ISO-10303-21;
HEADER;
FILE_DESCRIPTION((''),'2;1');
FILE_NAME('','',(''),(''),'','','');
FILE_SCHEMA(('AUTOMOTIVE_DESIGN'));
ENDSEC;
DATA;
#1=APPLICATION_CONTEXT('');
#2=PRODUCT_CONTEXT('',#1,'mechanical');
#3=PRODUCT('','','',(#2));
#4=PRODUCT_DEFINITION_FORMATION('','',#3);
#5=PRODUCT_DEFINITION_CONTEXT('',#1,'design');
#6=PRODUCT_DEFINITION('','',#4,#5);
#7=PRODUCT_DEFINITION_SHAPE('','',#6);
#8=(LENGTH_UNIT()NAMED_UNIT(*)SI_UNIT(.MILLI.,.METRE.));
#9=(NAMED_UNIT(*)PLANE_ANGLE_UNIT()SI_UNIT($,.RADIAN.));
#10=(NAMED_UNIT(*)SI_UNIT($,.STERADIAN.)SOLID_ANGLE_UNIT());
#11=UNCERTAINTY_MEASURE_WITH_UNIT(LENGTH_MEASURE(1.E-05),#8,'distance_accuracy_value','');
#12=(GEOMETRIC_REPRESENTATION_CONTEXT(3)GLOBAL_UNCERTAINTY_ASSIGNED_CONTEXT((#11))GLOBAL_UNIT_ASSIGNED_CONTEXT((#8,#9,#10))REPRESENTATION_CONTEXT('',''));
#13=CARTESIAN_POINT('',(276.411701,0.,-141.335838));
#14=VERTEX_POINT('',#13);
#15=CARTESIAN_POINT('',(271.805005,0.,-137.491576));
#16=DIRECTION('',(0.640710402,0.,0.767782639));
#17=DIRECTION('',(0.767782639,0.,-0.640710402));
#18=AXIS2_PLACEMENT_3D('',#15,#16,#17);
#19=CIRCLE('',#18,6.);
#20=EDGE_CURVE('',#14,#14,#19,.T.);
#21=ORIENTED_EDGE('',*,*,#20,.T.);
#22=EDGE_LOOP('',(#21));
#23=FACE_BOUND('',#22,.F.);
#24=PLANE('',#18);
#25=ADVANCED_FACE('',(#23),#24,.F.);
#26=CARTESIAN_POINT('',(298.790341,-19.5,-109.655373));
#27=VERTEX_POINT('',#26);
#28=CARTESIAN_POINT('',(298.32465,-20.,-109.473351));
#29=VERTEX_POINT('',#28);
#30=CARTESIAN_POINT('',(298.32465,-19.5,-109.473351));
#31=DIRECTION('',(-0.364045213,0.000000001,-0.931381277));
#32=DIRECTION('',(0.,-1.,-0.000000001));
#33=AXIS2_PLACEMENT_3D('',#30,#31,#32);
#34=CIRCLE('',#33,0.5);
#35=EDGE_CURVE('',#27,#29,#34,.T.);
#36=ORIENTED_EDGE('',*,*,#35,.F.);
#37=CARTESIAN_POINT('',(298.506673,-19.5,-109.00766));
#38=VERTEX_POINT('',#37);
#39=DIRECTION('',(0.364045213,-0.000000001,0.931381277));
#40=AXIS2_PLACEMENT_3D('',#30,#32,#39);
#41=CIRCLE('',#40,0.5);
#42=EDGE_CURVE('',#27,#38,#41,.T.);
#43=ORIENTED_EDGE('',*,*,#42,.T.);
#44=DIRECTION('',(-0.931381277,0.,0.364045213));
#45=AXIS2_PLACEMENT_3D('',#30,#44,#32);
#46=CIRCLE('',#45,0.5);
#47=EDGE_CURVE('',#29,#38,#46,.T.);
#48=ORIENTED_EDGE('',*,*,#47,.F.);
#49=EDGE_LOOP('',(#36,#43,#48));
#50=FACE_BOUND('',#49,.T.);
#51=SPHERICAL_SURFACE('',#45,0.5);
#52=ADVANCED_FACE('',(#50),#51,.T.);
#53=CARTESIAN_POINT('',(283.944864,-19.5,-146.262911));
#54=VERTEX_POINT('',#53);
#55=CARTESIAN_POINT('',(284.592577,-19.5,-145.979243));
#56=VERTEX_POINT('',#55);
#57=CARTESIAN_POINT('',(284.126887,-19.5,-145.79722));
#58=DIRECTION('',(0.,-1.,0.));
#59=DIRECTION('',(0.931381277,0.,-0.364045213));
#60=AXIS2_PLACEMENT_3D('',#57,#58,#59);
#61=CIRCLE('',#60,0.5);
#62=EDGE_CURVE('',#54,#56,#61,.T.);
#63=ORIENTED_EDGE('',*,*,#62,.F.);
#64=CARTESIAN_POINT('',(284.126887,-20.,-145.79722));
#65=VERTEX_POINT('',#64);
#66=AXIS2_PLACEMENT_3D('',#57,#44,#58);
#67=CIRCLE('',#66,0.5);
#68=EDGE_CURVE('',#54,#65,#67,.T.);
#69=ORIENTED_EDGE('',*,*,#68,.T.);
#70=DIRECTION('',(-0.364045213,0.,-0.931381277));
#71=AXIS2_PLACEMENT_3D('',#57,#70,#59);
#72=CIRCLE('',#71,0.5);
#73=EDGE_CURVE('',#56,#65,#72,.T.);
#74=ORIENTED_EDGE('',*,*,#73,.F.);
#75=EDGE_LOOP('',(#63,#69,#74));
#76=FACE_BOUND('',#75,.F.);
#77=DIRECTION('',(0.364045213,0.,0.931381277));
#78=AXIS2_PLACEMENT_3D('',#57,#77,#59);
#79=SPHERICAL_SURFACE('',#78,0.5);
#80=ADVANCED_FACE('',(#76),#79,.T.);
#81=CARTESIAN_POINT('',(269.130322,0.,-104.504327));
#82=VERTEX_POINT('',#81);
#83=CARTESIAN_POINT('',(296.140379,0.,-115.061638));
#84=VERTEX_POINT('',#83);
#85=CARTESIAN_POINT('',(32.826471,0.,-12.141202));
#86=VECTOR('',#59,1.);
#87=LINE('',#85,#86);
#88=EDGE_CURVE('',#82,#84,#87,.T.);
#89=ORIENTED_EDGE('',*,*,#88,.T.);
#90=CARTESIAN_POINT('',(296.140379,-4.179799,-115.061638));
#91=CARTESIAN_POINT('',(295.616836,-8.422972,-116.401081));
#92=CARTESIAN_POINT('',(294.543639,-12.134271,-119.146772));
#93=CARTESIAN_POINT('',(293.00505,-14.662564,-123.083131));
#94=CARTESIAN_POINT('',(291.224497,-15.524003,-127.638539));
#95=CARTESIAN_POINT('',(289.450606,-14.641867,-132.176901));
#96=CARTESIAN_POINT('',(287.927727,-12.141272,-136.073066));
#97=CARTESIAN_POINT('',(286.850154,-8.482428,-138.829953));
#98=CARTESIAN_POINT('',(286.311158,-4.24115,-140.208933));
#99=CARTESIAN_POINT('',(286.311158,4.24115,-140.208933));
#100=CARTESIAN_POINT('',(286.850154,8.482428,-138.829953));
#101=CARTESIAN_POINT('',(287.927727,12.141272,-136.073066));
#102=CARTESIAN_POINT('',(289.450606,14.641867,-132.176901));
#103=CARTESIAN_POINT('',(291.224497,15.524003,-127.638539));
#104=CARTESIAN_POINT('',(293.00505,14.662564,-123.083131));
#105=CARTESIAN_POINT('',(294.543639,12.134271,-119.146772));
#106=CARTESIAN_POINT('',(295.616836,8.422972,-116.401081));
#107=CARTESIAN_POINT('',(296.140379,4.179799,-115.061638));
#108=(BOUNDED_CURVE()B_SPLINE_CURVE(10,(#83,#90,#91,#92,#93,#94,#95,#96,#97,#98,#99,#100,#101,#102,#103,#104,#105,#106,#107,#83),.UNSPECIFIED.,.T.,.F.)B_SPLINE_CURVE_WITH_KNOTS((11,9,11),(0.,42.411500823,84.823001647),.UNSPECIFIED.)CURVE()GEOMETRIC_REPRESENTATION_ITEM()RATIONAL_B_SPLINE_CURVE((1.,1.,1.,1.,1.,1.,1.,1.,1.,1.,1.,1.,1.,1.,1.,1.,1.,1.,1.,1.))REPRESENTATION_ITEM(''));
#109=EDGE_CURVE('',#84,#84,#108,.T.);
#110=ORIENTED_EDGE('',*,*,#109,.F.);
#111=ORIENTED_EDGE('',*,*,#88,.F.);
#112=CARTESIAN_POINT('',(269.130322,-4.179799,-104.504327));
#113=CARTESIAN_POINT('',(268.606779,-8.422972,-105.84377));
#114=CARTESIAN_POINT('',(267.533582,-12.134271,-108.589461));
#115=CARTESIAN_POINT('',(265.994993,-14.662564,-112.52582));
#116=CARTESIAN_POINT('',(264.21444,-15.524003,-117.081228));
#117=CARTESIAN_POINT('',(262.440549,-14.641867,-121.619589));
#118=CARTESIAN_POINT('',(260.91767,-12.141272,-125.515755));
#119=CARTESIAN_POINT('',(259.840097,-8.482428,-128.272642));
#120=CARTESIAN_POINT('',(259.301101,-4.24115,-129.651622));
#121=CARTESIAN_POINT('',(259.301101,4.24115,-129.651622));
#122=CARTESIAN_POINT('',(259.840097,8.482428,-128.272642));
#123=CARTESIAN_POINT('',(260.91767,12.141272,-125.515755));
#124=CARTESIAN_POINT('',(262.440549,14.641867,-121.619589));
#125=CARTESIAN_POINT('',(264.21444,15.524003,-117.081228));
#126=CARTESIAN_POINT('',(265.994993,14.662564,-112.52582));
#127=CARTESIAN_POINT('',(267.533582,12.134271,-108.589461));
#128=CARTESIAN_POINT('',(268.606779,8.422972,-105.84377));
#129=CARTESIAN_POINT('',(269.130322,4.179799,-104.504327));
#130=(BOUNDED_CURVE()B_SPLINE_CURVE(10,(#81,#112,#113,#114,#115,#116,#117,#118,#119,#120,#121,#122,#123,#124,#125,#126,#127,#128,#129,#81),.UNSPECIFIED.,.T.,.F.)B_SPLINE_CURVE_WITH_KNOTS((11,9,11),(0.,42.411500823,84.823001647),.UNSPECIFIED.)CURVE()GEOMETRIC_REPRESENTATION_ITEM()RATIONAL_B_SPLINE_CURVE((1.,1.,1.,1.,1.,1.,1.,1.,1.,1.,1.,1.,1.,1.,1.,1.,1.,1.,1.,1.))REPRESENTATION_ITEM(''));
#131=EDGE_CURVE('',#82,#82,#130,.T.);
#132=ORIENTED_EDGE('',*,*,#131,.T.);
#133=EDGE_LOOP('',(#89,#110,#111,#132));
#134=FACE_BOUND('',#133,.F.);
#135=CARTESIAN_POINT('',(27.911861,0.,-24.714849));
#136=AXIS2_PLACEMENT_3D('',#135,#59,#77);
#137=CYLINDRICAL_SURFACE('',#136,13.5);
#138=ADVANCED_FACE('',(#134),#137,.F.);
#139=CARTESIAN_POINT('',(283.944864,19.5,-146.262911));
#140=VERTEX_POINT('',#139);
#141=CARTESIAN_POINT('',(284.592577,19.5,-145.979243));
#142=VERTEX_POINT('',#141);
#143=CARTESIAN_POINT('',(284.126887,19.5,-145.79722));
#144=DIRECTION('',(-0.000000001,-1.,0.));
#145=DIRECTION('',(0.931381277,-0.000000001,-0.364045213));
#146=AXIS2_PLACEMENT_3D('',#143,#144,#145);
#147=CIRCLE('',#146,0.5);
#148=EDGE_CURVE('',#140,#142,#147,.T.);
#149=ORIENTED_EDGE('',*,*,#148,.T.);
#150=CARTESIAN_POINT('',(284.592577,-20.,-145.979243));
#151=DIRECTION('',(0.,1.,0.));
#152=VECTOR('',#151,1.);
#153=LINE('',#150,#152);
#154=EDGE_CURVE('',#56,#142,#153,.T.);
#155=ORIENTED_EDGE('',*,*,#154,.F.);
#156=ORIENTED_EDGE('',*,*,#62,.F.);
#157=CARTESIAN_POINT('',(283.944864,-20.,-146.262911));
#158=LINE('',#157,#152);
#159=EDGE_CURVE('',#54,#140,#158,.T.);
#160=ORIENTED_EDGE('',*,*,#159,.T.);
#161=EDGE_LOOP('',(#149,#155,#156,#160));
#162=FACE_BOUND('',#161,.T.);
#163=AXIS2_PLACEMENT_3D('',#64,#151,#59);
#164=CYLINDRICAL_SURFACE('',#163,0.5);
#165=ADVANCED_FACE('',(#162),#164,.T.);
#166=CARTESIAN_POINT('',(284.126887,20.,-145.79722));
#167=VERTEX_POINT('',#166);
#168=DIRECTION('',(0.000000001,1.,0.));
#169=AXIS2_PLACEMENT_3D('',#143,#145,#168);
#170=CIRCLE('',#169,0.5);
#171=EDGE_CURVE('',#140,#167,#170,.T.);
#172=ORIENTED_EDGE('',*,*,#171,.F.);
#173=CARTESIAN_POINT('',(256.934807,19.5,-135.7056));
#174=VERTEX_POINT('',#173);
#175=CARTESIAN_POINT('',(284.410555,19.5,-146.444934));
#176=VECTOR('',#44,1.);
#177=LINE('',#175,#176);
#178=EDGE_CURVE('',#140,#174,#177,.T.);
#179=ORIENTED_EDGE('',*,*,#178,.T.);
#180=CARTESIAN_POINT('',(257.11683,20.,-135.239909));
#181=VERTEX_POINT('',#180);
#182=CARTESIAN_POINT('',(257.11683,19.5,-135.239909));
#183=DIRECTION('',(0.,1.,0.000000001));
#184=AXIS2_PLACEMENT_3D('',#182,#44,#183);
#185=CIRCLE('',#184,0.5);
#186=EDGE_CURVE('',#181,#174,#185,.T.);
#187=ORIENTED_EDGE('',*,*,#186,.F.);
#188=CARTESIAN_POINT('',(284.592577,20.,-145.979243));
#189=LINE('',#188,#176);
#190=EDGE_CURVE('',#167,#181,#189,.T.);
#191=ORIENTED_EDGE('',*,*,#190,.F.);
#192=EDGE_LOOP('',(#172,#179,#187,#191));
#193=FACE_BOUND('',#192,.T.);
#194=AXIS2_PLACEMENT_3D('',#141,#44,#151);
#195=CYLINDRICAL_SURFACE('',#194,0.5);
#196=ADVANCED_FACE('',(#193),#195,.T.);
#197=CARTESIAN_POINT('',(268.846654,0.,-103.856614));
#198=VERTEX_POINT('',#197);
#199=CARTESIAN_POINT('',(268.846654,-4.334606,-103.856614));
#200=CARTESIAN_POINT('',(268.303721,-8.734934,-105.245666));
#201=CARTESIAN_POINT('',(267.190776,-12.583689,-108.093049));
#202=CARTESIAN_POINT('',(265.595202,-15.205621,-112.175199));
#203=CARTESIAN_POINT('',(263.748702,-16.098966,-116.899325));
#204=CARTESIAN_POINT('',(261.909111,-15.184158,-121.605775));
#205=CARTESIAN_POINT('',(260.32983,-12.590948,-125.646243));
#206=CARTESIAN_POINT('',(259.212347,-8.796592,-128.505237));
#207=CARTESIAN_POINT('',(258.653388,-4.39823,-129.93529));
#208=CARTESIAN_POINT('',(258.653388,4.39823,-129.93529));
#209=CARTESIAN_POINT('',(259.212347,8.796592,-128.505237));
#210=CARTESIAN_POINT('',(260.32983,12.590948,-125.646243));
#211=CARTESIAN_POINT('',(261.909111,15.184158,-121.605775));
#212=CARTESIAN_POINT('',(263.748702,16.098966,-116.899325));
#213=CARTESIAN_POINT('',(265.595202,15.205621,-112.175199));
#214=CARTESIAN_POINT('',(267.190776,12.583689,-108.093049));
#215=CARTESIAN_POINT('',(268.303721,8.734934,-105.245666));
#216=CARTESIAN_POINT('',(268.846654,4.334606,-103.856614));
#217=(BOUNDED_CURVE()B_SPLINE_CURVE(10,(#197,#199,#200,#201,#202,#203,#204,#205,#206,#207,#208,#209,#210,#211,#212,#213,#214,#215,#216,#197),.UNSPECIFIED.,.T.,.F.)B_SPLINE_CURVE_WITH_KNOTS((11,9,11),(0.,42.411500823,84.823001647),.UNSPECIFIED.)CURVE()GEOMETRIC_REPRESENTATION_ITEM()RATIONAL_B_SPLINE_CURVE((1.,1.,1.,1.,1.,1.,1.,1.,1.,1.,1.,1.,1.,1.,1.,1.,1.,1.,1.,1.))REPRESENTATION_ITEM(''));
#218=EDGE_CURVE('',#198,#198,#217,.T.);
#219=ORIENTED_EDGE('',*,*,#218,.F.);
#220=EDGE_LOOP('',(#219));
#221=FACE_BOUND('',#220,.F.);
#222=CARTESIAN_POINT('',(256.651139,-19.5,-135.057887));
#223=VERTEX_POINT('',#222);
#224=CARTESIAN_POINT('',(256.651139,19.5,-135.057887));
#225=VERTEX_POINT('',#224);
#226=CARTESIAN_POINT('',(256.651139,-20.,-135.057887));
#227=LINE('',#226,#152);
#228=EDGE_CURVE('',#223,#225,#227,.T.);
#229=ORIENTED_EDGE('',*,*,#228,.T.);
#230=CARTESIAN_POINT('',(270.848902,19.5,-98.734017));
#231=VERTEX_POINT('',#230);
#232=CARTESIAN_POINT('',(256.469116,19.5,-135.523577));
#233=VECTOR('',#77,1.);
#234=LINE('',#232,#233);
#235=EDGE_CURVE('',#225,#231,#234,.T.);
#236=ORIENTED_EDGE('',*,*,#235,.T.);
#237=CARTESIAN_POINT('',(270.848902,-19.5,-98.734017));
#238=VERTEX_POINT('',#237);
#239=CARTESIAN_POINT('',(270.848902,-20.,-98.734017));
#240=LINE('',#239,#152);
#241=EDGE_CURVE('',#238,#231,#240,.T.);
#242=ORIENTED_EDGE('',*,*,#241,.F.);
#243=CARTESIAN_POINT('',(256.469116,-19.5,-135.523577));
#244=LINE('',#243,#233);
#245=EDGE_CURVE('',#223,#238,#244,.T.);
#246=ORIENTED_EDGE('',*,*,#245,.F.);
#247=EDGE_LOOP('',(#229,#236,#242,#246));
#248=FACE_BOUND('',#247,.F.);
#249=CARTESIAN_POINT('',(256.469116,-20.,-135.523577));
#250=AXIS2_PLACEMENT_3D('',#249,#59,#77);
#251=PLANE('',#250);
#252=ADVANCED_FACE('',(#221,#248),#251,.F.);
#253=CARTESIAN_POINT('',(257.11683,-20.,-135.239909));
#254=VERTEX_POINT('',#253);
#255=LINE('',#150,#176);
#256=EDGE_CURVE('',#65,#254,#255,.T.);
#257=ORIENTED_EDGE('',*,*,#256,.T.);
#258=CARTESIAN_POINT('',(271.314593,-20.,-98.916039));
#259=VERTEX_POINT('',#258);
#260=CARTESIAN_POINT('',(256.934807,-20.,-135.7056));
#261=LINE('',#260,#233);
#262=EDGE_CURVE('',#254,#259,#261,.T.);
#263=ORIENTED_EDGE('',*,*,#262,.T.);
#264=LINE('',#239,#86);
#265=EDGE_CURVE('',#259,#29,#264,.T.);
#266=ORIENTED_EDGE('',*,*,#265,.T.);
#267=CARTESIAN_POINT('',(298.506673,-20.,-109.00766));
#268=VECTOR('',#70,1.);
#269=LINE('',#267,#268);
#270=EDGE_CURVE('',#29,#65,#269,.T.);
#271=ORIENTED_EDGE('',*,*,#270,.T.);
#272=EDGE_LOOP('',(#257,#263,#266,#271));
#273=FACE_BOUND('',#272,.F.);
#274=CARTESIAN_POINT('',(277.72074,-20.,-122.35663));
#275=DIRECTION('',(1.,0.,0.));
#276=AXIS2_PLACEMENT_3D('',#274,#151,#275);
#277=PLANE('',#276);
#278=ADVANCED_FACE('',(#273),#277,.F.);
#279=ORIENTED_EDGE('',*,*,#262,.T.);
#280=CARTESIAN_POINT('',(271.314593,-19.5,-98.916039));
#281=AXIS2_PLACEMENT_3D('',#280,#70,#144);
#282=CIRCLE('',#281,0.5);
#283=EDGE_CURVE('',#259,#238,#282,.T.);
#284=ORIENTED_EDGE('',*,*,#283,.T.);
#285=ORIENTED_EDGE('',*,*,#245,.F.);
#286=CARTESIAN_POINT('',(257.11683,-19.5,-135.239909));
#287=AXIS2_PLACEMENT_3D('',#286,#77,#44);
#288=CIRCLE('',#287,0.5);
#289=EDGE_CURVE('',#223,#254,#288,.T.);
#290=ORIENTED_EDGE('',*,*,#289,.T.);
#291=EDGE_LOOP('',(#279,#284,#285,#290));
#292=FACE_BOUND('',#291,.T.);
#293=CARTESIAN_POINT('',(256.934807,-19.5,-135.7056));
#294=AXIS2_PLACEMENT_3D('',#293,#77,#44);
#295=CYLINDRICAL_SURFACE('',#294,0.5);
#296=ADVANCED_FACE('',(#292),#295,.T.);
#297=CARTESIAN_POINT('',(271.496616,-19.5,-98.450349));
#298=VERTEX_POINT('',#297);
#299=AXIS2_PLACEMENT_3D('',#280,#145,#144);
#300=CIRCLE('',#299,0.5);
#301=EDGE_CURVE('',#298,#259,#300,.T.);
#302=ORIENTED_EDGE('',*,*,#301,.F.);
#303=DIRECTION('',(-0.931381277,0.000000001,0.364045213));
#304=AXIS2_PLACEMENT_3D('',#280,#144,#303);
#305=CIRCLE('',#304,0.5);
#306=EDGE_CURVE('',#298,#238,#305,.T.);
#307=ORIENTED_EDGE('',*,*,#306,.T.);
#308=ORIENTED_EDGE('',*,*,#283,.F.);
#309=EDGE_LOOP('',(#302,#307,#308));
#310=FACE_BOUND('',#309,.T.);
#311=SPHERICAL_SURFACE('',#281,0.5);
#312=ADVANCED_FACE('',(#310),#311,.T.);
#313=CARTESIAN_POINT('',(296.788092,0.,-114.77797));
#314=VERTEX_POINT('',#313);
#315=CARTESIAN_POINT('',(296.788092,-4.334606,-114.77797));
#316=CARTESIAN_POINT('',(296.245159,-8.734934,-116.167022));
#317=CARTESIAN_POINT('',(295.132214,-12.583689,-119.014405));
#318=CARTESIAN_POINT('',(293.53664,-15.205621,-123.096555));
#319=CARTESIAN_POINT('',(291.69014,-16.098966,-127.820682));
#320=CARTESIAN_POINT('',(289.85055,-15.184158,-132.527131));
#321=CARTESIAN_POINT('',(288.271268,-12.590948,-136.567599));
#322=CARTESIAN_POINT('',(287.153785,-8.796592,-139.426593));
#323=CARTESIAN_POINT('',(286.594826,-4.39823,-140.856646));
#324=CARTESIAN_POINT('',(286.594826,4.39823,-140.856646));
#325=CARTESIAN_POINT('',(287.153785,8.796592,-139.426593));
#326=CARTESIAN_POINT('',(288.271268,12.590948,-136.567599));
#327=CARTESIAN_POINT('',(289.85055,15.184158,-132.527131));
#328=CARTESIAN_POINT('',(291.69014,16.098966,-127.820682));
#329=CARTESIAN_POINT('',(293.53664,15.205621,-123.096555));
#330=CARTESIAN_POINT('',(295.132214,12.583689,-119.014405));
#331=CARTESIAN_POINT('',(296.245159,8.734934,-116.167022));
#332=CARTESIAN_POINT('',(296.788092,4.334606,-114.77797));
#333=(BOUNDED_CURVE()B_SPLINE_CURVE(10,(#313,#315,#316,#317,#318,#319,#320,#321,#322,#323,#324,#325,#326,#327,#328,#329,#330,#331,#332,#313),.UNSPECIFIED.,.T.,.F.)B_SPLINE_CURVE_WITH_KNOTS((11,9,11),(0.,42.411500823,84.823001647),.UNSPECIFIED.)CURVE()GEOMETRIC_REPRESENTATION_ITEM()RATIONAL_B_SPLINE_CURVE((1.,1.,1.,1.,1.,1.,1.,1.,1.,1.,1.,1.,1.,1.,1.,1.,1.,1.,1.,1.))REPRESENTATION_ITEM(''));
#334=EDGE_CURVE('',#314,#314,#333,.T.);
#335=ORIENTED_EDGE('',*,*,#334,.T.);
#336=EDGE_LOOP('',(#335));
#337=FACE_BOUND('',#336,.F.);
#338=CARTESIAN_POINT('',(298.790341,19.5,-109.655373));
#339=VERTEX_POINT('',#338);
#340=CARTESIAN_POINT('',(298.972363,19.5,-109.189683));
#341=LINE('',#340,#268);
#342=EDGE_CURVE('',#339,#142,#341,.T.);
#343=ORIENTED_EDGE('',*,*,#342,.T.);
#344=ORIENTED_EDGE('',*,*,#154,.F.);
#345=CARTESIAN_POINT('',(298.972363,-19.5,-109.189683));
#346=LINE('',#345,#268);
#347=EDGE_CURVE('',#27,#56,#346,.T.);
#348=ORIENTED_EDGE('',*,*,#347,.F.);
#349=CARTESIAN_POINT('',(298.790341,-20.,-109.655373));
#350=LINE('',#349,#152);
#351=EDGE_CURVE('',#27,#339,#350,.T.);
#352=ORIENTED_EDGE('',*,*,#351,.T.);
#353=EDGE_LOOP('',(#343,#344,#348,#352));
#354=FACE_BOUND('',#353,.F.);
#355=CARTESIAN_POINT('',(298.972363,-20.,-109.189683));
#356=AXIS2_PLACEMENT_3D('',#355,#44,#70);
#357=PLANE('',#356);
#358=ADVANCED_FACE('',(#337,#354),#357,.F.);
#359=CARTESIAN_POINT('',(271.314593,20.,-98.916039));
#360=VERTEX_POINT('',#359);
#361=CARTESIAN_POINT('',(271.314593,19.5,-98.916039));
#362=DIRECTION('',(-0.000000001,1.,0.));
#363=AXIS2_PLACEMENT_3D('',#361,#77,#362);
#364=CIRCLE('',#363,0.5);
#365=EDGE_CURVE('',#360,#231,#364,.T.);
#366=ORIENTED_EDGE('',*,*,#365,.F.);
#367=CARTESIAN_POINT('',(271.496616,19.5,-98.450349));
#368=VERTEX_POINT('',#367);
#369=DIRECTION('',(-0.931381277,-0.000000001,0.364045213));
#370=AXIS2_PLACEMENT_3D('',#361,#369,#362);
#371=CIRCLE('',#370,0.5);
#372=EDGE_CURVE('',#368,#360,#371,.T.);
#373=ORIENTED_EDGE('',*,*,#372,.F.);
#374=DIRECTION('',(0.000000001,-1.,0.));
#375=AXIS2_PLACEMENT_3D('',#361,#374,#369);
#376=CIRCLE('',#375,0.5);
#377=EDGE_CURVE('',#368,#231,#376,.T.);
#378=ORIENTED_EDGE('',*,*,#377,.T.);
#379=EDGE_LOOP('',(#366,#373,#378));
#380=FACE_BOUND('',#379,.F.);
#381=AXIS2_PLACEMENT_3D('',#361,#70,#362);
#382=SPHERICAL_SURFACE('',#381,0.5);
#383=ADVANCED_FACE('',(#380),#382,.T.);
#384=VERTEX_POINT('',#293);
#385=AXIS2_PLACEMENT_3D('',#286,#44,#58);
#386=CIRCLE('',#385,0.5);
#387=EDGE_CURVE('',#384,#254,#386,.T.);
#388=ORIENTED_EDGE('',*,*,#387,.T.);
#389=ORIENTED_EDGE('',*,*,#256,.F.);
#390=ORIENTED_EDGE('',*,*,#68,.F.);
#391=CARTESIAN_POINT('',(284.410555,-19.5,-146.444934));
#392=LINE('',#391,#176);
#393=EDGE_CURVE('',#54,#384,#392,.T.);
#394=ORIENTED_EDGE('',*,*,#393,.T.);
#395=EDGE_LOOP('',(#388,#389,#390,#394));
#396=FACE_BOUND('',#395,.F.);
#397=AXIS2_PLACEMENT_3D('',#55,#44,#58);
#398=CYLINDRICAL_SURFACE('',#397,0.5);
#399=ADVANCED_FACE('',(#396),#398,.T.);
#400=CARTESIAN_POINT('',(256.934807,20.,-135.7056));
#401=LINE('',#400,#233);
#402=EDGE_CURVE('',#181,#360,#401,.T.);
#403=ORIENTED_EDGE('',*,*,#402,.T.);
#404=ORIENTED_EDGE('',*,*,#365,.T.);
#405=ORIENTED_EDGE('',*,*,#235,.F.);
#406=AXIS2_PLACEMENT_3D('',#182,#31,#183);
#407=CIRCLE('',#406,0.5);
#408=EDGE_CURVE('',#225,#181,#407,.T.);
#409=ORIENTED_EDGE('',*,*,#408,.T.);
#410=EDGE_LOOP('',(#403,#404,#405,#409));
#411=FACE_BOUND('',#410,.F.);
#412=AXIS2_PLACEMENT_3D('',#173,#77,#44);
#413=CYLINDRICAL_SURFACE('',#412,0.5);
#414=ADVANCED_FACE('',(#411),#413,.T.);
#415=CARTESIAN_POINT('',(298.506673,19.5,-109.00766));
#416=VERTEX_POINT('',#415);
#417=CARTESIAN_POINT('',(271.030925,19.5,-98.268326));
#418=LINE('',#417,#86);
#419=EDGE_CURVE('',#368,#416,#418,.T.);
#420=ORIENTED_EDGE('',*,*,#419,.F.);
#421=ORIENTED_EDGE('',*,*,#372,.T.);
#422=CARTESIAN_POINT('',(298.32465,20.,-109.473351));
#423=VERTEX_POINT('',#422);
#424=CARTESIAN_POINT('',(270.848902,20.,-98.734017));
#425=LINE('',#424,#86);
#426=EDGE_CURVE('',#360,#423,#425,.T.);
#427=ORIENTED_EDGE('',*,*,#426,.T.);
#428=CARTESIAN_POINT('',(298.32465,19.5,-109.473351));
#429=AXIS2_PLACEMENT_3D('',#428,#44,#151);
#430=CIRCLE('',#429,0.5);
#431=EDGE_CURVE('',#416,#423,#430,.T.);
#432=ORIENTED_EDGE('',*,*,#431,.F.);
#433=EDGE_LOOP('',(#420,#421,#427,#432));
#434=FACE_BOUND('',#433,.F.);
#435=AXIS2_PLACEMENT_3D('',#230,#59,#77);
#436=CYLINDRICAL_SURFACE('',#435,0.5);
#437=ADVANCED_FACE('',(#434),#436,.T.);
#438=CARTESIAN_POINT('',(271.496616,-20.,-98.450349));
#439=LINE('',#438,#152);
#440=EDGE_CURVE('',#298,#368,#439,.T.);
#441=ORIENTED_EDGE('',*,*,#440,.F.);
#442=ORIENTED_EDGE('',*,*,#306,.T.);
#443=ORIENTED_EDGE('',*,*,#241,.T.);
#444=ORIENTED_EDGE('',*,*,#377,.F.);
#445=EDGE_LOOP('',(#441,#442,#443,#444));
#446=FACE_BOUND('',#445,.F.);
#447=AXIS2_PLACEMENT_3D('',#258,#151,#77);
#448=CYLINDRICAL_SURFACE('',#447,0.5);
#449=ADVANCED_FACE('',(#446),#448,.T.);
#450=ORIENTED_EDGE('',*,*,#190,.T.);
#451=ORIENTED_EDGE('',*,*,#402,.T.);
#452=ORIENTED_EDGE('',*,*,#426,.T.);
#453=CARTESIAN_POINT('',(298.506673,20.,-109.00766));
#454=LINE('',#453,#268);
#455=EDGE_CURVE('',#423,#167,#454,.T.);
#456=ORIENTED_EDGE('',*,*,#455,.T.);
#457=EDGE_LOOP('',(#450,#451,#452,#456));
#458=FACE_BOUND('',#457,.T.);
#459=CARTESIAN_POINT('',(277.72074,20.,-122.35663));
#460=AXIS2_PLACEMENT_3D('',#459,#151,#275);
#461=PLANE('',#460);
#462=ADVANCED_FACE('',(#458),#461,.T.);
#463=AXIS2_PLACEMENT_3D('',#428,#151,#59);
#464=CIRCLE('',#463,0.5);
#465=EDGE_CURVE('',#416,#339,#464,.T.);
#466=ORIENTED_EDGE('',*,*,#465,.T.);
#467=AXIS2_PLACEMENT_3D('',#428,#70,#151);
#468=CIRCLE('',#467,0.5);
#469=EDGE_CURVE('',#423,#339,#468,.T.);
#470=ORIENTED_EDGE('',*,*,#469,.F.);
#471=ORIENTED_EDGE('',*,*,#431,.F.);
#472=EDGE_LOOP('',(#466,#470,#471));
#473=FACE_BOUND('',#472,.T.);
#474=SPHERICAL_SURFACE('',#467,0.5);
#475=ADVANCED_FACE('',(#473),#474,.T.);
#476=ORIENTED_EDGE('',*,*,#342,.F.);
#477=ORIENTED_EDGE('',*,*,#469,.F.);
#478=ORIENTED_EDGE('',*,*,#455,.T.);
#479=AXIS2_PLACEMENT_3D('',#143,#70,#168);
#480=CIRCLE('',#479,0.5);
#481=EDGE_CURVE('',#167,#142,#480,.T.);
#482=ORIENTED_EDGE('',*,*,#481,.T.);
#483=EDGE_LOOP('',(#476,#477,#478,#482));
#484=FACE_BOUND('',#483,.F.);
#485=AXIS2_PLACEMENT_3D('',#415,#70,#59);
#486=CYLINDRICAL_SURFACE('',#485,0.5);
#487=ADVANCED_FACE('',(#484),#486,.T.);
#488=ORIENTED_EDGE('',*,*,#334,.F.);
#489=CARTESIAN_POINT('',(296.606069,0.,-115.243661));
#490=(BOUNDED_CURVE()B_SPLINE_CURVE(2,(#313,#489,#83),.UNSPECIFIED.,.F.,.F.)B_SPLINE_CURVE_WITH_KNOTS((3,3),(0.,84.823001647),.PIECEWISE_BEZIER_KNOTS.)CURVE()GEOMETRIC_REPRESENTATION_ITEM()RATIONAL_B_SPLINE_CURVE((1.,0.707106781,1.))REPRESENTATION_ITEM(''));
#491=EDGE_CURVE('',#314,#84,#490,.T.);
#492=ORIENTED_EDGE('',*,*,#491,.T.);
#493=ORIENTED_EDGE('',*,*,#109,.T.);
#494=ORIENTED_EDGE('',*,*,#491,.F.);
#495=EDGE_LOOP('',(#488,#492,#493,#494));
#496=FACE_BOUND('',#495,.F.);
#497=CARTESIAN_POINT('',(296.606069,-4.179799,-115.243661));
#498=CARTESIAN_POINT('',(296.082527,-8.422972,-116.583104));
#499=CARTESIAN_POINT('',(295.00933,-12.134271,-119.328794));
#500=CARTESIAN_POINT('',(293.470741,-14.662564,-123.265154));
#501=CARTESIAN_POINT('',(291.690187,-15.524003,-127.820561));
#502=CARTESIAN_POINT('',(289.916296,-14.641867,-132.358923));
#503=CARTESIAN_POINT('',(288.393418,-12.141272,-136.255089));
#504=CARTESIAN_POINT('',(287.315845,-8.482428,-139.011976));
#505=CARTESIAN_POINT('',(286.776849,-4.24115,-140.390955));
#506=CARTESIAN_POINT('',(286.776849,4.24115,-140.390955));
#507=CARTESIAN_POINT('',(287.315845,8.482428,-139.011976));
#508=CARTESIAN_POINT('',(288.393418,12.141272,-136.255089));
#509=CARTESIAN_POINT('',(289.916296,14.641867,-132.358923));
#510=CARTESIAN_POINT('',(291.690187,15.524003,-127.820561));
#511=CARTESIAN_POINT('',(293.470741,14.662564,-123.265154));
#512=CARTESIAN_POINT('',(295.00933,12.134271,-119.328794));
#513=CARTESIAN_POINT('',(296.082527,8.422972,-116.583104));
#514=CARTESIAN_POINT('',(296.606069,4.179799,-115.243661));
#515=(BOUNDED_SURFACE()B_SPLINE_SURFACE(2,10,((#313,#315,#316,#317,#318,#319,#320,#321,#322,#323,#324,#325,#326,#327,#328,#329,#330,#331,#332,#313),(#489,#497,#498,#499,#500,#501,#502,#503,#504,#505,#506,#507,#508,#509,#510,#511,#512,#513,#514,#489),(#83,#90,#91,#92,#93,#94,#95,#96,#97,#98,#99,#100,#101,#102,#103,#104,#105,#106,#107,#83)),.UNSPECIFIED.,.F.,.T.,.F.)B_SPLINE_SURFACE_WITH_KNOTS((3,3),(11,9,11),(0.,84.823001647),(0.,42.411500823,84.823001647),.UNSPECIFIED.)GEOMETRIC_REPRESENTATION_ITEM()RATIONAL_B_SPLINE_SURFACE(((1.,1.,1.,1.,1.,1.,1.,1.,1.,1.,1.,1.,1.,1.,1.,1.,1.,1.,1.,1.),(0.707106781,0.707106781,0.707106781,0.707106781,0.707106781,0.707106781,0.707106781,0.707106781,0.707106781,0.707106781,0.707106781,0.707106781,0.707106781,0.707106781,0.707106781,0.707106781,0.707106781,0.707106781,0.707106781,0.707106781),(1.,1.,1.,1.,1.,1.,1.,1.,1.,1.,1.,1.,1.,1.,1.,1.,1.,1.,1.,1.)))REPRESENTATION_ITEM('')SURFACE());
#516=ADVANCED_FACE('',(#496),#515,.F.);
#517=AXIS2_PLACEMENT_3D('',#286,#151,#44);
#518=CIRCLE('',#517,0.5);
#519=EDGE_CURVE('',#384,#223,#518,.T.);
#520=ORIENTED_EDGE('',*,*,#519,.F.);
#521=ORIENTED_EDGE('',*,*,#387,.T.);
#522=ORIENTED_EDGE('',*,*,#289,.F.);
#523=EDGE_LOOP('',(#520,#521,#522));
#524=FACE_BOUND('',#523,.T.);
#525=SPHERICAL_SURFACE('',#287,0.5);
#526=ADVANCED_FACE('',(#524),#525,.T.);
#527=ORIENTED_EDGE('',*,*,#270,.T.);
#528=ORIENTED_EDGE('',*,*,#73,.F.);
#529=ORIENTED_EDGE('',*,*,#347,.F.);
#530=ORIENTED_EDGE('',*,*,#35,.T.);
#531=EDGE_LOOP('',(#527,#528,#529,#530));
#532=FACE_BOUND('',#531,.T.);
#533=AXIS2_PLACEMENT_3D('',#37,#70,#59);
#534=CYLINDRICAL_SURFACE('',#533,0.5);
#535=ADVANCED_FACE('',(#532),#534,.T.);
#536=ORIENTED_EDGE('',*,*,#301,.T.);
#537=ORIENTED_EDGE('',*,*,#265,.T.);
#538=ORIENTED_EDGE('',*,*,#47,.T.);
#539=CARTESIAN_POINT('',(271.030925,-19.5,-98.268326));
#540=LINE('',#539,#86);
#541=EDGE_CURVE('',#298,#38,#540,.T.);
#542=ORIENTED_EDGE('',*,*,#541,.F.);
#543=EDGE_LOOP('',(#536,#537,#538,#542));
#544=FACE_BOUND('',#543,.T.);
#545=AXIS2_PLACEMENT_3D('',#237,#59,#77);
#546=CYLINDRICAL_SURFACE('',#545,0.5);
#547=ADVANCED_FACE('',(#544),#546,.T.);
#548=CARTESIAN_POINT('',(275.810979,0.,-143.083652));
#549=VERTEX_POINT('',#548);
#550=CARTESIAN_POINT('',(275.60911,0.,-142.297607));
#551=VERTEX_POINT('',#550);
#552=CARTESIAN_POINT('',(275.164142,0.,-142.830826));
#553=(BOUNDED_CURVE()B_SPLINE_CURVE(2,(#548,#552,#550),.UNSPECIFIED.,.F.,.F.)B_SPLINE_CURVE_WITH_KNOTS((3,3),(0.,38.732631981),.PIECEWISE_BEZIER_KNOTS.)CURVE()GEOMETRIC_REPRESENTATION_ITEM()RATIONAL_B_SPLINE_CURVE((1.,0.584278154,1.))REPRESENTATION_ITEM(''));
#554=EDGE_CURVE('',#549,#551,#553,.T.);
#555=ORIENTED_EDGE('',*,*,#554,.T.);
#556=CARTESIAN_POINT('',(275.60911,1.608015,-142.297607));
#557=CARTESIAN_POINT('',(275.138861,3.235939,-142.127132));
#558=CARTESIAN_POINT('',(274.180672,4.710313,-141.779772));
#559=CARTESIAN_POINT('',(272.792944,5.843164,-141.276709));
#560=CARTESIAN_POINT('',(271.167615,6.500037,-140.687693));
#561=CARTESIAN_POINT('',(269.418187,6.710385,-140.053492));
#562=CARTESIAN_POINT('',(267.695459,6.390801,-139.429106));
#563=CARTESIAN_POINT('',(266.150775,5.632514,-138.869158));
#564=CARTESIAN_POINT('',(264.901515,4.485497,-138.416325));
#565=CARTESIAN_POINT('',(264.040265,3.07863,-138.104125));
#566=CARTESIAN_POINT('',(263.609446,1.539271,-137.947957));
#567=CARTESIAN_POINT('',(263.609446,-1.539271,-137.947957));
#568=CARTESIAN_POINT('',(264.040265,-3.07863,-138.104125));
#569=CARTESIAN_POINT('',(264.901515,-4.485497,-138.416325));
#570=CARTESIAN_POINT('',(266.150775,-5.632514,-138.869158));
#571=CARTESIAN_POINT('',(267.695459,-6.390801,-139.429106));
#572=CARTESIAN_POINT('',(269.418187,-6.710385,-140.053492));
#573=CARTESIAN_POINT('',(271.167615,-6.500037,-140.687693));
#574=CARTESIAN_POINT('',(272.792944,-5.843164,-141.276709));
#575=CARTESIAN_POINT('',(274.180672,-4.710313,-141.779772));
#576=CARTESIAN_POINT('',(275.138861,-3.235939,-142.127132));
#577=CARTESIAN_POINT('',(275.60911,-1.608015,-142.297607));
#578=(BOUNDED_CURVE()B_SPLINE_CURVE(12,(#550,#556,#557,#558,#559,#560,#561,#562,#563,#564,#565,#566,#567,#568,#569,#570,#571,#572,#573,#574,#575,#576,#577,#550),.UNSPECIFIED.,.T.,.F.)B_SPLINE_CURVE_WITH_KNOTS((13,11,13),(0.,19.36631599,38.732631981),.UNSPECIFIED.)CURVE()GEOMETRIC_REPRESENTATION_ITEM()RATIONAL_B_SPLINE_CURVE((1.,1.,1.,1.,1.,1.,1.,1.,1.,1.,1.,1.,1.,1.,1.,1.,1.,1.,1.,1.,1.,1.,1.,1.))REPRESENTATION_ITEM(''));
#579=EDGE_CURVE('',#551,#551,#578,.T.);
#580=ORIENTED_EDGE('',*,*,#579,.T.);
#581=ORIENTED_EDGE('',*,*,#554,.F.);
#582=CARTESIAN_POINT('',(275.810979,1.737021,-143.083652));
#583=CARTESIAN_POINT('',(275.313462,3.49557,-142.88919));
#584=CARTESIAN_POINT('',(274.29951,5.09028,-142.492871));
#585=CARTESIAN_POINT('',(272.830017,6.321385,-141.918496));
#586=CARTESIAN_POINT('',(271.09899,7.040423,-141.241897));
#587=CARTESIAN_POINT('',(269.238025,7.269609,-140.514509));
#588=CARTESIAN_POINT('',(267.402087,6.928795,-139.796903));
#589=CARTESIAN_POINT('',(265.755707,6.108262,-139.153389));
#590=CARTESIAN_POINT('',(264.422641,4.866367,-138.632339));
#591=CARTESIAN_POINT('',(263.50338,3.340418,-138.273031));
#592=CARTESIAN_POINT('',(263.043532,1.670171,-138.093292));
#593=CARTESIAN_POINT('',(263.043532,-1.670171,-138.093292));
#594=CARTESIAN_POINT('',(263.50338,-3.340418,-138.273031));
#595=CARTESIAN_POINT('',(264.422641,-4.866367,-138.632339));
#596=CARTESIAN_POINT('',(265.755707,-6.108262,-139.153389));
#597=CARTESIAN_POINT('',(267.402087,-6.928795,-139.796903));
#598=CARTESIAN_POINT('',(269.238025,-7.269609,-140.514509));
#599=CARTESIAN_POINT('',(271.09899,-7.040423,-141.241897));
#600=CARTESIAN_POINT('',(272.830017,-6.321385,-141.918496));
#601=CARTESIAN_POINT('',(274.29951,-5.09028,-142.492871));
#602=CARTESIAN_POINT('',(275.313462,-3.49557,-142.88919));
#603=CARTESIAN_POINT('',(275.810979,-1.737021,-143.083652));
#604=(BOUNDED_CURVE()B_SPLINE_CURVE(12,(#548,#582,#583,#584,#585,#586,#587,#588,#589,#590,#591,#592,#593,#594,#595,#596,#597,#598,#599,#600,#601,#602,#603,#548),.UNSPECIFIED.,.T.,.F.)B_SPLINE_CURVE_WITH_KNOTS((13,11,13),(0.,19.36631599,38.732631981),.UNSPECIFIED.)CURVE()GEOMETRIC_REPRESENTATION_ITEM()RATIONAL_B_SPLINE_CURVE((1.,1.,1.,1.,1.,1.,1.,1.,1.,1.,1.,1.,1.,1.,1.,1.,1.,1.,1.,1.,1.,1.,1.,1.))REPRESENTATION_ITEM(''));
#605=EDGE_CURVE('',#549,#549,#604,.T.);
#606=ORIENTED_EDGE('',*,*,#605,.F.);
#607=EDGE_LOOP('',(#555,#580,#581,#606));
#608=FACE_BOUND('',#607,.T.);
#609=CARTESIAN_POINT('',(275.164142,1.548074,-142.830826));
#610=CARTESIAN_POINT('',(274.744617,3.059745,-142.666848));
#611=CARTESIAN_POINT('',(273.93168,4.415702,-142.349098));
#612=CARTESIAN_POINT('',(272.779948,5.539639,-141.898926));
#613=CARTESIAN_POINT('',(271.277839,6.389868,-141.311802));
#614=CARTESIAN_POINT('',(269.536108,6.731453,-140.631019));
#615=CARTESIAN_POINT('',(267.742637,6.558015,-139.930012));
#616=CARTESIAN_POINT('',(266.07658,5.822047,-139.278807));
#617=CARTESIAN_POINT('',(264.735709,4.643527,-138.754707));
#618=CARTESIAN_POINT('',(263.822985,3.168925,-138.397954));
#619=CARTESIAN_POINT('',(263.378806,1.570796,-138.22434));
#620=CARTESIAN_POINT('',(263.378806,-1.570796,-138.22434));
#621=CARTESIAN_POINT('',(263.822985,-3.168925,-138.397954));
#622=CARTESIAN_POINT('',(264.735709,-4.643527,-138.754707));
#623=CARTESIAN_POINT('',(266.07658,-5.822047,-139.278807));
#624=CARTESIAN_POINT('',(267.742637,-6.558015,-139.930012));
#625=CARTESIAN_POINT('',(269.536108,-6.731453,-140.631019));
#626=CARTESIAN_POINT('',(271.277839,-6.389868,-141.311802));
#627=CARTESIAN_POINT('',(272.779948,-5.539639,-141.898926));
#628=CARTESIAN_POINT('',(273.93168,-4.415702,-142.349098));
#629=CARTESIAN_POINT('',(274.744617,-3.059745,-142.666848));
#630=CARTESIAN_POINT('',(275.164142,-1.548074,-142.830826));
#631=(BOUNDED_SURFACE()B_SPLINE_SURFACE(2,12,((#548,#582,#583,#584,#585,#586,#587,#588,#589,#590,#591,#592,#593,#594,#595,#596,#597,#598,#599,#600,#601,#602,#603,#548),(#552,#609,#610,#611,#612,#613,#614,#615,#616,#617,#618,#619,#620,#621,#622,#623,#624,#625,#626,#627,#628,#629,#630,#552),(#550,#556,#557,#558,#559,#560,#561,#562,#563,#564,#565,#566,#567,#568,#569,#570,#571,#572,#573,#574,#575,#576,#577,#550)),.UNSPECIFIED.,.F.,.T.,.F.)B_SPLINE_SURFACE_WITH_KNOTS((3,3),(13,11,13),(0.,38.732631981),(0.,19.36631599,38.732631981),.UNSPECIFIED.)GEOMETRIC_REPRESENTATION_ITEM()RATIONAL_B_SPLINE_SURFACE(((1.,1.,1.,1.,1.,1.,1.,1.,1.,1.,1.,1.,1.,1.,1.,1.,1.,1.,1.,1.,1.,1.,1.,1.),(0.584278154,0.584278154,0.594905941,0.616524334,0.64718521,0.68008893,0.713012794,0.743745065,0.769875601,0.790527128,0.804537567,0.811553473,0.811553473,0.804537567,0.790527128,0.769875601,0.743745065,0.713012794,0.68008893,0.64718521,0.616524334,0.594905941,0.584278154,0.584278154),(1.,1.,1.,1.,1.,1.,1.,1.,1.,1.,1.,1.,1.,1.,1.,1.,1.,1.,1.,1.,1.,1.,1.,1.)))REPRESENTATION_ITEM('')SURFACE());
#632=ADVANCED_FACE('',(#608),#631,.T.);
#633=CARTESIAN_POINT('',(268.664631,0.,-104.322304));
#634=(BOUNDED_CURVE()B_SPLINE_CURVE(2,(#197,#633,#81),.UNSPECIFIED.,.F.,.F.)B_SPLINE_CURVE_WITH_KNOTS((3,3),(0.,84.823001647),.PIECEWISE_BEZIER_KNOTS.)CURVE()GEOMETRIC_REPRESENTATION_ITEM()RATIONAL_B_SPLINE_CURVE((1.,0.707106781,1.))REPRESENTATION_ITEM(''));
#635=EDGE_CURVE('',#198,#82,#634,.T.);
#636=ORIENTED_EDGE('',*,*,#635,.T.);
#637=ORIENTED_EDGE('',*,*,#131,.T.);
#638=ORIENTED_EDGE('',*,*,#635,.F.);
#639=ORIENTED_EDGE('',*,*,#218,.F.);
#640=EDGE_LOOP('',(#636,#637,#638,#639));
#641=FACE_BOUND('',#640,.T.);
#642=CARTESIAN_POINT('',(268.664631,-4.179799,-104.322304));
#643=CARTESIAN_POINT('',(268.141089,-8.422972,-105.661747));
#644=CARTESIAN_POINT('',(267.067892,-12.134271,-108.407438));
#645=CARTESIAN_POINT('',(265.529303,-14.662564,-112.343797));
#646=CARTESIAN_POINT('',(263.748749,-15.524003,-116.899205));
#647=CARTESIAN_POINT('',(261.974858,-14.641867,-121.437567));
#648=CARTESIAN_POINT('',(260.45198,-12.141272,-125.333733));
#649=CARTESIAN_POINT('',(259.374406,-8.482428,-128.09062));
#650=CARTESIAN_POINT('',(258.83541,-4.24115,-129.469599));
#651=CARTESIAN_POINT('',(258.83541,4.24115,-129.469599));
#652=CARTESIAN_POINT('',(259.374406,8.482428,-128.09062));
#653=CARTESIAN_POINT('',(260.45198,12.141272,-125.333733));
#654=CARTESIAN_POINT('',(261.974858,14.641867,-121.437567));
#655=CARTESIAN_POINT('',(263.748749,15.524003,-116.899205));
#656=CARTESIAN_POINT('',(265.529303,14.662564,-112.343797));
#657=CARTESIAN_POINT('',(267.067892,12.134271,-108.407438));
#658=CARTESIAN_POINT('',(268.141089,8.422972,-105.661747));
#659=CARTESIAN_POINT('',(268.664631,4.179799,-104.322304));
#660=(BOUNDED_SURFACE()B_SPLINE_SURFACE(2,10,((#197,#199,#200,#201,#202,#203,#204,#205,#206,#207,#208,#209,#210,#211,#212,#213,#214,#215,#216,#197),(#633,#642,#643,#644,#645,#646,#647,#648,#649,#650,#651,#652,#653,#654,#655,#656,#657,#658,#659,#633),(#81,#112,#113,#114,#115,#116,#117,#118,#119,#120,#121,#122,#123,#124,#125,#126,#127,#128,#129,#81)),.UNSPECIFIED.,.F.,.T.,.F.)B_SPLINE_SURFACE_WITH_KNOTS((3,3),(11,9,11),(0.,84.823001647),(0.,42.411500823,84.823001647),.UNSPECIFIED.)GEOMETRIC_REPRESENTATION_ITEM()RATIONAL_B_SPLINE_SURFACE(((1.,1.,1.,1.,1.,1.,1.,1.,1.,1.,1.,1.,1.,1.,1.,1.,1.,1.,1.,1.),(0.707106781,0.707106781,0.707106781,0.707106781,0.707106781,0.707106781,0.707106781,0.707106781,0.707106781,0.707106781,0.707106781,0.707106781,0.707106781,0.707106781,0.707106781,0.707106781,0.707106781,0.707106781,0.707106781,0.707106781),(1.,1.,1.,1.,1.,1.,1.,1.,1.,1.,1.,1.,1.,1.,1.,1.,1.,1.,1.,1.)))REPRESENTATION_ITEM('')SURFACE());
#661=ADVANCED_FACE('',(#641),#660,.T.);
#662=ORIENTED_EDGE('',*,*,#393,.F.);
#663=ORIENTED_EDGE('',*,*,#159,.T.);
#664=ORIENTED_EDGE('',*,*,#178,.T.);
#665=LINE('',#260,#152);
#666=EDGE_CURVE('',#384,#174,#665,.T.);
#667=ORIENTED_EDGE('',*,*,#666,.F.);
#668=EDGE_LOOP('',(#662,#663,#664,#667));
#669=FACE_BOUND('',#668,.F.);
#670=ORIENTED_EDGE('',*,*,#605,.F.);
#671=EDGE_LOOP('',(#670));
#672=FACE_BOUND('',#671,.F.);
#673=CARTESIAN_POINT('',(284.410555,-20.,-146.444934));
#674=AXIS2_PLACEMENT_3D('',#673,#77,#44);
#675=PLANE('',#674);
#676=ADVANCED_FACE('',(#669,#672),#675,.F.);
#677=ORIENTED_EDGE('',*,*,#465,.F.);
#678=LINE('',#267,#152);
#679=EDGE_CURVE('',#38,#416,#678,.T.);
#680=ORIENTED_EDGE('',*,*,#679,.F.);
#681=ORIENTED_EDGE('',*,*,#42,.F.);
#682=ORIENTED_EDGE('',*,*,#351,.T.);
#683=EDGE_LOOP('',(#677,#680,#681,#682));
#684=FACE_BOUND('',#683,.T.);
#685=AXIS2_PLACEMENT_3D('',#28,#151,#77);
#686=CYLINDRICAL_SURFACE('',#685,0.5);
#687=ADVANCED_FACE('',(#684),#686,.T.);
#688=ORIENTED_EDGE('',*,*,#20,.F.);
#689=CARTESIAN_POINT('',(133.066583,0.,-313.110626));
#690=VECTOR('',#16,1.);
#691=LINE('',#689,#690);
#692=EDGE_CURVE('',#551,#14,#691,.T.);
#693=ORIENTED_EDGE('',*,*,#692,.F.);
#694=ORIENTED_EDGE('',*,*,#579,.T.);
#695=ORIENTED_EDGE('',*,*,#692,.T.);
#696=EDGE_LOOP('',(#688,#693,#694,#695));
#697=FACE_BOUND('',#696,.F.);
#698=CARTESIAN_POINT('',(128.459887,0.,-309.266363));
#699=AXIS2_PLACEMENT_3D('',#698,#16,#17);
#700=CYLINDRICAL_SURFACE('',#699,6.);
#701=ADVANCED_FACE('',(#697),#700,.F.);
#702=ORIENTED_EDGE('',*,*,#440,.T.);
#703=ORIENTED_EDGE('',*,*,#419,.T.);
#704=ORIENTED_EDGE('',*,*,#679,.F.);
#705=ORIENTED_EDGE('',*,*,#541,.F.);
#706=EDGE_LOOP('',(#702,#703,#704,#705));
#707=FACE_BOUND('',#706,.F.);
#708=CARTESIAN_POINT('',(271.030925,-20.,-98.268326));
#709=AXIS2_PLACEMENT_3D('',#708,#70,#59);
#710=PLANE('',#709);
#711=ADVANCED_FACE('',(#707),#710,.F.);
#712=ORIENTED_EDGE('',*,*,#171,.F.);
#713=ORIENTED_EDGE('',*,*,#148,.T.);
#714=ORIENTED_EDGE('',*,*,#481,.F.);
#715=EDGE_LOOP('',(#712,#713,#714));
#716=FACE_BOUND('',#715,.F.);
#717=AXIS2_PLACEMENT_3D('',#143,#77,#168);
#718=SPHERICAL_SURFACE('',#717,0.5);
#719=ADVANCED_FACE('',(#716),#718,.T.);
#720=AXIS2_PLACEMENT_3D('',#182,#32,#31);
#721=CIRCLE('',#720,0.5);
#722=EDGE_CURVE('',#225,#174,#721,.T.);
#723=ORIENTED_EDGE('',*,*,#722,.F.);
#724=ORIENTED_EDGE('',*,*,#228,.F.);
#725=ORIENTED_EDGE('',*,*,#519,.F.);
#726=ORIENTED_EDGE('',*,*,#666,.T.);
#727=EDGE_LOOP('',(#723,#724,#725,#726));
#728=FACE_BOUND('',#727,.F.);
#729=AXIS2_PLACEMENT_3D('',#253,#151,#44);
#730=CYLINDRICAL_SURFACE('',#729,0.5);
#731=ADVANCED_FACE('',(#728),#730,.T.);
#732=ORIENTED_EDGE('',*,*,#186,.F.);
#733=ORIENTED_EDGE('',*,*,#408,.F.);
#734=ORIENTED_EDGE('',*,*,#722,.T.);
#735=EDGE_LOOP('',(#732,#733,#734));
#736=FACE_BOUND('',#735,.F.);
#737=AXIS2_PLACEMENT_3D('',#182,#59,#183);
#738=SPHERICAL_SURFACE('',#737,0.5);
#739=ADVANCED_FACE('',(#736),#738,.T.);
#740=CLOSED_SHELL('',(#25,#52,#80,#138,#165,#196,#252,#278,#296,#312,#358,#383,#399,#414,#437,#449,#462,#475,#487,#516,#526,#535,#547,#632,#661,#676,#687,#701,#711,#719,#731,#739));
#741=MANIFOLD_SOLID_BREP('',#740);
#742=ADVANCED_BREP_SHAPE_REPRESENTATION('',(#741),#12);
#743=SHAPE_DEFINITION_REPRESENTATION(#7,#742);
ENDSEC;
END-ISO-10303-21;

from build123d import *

# Parameters (mm, degrees)
BOSS_EXTRUDE1_DEPTH      = 20
BOSS_EXTRUDE1_DEPTH_BACK = 20
CUT_SWEEP1_PROFILE_R     = 13.5
CUT_SWEEP2_PROFILE_R     = 6
FILLET1_R                = 0.5


with BuildPart() as part:
    # Sketch20 → Boss-Extrude1 (new, two sides: drawn at the far end of the back side and taken through both)
    with BuildSketch(Plane(origin=(0, 0, 0), x_dir=(1, 0, 0), z_dir=(0, 1, 0)).offset(-BOSS_EXTRUDE1_DEPTH_BACK)):
        Polygon((271.030924973, 98.268326166), (298.972363284, 109.189682542), (284.410554783, 146.444933624), (256.469116472, 135.523577248), align=None)
    extrude(amount=BOSS_EXTRUDE1_DEPTH + BOSS_EXTRUDE1_DEPTH_BACK)

    # Cut-Sweep1: sweep along a path in Sketch6
    with BuildLine(Plane(origin=(0, 0, 0), x_dir=(1, 0, 0), z_dir=(0, 1, 0))) as cut_sweep1_path:
        Line((27.911860583, 24.714849031), (544.640102873, 226.686315947))
    # Cut-Sweep1 profile (on start of the path) → Cut-Sweep1 (sweep, cut)
    with BuildSketch(Plane(origin=(27.911860583, 0, -24.714849031), x_dir=(0.3640452125264868, 0, 0.931381277048527), z_dir=(0.931381277048527, 0, -0.3640452125264868))):
        Circle(CUT_SWEEP1_PROFILE_R)
    sweep(path=cut_sweep1_path.line, mode=Mode.SUBTRACT)

    # Cut-Sweep2: sweep along a path in Sketch19
    with BuildLine(Plane(origin=(0, 0, 0), x_dir=(1, 0, 0), z_dir=(0, 1, 0))) as cut_sweep2_path:
        Line((128.459886798, 309.266363493), (271.805005174, 137.491575647))
    # Cut-Sweep2 profile (on start of the path) → Cut-Sweep2 (sweep, cut)
    with BuildSketch(Plane(origin=(128.459886798, 0, -309.266363493), x_dir=(0.767782639292157, 0, -0.6407104016648784), z_dir=(0.6407104016648784, 0, 0.767782639292157))):
        Circle(CUT_SWEEP2_PROFILE_R)
    sweep(path=cut_sweep2_path.line, mode=Mode.SUBTRACT)

    # Fillet1
    fillet1_edges = [part.edges().sort_by_distance(p)[0] for p in [
        (291.691459034, 20, -127.817308083),
        (263.750020722, -20, -116.895951707),
        (270.439835627, 20, -140.984255436),
        (263.750020722, 20, -116.895951707),
        (285.001644128, 20, -103.729004354),
        (285.001644128, -20, -103.729004354),
        (286.776848665, 0, -140.390955323),
        (258.835410353, 0, -129.469598947),
        (263.37880602, -1.3026e-05, -138.224339505),
        (291.691459034, -20, -127.817308083),
        (298.972363284, 0, -109.189682542),
        (271.030924973, 0, -98.268326166),
        (256.469116472, 0, -135.523577248),
        (284.410554783, 0, -146.444933624),
        (270.439835627, -20, -140.984255436),
    ]]
    fillet(fillet1_edges, radius=FILLET1_R)


solid = part.part
